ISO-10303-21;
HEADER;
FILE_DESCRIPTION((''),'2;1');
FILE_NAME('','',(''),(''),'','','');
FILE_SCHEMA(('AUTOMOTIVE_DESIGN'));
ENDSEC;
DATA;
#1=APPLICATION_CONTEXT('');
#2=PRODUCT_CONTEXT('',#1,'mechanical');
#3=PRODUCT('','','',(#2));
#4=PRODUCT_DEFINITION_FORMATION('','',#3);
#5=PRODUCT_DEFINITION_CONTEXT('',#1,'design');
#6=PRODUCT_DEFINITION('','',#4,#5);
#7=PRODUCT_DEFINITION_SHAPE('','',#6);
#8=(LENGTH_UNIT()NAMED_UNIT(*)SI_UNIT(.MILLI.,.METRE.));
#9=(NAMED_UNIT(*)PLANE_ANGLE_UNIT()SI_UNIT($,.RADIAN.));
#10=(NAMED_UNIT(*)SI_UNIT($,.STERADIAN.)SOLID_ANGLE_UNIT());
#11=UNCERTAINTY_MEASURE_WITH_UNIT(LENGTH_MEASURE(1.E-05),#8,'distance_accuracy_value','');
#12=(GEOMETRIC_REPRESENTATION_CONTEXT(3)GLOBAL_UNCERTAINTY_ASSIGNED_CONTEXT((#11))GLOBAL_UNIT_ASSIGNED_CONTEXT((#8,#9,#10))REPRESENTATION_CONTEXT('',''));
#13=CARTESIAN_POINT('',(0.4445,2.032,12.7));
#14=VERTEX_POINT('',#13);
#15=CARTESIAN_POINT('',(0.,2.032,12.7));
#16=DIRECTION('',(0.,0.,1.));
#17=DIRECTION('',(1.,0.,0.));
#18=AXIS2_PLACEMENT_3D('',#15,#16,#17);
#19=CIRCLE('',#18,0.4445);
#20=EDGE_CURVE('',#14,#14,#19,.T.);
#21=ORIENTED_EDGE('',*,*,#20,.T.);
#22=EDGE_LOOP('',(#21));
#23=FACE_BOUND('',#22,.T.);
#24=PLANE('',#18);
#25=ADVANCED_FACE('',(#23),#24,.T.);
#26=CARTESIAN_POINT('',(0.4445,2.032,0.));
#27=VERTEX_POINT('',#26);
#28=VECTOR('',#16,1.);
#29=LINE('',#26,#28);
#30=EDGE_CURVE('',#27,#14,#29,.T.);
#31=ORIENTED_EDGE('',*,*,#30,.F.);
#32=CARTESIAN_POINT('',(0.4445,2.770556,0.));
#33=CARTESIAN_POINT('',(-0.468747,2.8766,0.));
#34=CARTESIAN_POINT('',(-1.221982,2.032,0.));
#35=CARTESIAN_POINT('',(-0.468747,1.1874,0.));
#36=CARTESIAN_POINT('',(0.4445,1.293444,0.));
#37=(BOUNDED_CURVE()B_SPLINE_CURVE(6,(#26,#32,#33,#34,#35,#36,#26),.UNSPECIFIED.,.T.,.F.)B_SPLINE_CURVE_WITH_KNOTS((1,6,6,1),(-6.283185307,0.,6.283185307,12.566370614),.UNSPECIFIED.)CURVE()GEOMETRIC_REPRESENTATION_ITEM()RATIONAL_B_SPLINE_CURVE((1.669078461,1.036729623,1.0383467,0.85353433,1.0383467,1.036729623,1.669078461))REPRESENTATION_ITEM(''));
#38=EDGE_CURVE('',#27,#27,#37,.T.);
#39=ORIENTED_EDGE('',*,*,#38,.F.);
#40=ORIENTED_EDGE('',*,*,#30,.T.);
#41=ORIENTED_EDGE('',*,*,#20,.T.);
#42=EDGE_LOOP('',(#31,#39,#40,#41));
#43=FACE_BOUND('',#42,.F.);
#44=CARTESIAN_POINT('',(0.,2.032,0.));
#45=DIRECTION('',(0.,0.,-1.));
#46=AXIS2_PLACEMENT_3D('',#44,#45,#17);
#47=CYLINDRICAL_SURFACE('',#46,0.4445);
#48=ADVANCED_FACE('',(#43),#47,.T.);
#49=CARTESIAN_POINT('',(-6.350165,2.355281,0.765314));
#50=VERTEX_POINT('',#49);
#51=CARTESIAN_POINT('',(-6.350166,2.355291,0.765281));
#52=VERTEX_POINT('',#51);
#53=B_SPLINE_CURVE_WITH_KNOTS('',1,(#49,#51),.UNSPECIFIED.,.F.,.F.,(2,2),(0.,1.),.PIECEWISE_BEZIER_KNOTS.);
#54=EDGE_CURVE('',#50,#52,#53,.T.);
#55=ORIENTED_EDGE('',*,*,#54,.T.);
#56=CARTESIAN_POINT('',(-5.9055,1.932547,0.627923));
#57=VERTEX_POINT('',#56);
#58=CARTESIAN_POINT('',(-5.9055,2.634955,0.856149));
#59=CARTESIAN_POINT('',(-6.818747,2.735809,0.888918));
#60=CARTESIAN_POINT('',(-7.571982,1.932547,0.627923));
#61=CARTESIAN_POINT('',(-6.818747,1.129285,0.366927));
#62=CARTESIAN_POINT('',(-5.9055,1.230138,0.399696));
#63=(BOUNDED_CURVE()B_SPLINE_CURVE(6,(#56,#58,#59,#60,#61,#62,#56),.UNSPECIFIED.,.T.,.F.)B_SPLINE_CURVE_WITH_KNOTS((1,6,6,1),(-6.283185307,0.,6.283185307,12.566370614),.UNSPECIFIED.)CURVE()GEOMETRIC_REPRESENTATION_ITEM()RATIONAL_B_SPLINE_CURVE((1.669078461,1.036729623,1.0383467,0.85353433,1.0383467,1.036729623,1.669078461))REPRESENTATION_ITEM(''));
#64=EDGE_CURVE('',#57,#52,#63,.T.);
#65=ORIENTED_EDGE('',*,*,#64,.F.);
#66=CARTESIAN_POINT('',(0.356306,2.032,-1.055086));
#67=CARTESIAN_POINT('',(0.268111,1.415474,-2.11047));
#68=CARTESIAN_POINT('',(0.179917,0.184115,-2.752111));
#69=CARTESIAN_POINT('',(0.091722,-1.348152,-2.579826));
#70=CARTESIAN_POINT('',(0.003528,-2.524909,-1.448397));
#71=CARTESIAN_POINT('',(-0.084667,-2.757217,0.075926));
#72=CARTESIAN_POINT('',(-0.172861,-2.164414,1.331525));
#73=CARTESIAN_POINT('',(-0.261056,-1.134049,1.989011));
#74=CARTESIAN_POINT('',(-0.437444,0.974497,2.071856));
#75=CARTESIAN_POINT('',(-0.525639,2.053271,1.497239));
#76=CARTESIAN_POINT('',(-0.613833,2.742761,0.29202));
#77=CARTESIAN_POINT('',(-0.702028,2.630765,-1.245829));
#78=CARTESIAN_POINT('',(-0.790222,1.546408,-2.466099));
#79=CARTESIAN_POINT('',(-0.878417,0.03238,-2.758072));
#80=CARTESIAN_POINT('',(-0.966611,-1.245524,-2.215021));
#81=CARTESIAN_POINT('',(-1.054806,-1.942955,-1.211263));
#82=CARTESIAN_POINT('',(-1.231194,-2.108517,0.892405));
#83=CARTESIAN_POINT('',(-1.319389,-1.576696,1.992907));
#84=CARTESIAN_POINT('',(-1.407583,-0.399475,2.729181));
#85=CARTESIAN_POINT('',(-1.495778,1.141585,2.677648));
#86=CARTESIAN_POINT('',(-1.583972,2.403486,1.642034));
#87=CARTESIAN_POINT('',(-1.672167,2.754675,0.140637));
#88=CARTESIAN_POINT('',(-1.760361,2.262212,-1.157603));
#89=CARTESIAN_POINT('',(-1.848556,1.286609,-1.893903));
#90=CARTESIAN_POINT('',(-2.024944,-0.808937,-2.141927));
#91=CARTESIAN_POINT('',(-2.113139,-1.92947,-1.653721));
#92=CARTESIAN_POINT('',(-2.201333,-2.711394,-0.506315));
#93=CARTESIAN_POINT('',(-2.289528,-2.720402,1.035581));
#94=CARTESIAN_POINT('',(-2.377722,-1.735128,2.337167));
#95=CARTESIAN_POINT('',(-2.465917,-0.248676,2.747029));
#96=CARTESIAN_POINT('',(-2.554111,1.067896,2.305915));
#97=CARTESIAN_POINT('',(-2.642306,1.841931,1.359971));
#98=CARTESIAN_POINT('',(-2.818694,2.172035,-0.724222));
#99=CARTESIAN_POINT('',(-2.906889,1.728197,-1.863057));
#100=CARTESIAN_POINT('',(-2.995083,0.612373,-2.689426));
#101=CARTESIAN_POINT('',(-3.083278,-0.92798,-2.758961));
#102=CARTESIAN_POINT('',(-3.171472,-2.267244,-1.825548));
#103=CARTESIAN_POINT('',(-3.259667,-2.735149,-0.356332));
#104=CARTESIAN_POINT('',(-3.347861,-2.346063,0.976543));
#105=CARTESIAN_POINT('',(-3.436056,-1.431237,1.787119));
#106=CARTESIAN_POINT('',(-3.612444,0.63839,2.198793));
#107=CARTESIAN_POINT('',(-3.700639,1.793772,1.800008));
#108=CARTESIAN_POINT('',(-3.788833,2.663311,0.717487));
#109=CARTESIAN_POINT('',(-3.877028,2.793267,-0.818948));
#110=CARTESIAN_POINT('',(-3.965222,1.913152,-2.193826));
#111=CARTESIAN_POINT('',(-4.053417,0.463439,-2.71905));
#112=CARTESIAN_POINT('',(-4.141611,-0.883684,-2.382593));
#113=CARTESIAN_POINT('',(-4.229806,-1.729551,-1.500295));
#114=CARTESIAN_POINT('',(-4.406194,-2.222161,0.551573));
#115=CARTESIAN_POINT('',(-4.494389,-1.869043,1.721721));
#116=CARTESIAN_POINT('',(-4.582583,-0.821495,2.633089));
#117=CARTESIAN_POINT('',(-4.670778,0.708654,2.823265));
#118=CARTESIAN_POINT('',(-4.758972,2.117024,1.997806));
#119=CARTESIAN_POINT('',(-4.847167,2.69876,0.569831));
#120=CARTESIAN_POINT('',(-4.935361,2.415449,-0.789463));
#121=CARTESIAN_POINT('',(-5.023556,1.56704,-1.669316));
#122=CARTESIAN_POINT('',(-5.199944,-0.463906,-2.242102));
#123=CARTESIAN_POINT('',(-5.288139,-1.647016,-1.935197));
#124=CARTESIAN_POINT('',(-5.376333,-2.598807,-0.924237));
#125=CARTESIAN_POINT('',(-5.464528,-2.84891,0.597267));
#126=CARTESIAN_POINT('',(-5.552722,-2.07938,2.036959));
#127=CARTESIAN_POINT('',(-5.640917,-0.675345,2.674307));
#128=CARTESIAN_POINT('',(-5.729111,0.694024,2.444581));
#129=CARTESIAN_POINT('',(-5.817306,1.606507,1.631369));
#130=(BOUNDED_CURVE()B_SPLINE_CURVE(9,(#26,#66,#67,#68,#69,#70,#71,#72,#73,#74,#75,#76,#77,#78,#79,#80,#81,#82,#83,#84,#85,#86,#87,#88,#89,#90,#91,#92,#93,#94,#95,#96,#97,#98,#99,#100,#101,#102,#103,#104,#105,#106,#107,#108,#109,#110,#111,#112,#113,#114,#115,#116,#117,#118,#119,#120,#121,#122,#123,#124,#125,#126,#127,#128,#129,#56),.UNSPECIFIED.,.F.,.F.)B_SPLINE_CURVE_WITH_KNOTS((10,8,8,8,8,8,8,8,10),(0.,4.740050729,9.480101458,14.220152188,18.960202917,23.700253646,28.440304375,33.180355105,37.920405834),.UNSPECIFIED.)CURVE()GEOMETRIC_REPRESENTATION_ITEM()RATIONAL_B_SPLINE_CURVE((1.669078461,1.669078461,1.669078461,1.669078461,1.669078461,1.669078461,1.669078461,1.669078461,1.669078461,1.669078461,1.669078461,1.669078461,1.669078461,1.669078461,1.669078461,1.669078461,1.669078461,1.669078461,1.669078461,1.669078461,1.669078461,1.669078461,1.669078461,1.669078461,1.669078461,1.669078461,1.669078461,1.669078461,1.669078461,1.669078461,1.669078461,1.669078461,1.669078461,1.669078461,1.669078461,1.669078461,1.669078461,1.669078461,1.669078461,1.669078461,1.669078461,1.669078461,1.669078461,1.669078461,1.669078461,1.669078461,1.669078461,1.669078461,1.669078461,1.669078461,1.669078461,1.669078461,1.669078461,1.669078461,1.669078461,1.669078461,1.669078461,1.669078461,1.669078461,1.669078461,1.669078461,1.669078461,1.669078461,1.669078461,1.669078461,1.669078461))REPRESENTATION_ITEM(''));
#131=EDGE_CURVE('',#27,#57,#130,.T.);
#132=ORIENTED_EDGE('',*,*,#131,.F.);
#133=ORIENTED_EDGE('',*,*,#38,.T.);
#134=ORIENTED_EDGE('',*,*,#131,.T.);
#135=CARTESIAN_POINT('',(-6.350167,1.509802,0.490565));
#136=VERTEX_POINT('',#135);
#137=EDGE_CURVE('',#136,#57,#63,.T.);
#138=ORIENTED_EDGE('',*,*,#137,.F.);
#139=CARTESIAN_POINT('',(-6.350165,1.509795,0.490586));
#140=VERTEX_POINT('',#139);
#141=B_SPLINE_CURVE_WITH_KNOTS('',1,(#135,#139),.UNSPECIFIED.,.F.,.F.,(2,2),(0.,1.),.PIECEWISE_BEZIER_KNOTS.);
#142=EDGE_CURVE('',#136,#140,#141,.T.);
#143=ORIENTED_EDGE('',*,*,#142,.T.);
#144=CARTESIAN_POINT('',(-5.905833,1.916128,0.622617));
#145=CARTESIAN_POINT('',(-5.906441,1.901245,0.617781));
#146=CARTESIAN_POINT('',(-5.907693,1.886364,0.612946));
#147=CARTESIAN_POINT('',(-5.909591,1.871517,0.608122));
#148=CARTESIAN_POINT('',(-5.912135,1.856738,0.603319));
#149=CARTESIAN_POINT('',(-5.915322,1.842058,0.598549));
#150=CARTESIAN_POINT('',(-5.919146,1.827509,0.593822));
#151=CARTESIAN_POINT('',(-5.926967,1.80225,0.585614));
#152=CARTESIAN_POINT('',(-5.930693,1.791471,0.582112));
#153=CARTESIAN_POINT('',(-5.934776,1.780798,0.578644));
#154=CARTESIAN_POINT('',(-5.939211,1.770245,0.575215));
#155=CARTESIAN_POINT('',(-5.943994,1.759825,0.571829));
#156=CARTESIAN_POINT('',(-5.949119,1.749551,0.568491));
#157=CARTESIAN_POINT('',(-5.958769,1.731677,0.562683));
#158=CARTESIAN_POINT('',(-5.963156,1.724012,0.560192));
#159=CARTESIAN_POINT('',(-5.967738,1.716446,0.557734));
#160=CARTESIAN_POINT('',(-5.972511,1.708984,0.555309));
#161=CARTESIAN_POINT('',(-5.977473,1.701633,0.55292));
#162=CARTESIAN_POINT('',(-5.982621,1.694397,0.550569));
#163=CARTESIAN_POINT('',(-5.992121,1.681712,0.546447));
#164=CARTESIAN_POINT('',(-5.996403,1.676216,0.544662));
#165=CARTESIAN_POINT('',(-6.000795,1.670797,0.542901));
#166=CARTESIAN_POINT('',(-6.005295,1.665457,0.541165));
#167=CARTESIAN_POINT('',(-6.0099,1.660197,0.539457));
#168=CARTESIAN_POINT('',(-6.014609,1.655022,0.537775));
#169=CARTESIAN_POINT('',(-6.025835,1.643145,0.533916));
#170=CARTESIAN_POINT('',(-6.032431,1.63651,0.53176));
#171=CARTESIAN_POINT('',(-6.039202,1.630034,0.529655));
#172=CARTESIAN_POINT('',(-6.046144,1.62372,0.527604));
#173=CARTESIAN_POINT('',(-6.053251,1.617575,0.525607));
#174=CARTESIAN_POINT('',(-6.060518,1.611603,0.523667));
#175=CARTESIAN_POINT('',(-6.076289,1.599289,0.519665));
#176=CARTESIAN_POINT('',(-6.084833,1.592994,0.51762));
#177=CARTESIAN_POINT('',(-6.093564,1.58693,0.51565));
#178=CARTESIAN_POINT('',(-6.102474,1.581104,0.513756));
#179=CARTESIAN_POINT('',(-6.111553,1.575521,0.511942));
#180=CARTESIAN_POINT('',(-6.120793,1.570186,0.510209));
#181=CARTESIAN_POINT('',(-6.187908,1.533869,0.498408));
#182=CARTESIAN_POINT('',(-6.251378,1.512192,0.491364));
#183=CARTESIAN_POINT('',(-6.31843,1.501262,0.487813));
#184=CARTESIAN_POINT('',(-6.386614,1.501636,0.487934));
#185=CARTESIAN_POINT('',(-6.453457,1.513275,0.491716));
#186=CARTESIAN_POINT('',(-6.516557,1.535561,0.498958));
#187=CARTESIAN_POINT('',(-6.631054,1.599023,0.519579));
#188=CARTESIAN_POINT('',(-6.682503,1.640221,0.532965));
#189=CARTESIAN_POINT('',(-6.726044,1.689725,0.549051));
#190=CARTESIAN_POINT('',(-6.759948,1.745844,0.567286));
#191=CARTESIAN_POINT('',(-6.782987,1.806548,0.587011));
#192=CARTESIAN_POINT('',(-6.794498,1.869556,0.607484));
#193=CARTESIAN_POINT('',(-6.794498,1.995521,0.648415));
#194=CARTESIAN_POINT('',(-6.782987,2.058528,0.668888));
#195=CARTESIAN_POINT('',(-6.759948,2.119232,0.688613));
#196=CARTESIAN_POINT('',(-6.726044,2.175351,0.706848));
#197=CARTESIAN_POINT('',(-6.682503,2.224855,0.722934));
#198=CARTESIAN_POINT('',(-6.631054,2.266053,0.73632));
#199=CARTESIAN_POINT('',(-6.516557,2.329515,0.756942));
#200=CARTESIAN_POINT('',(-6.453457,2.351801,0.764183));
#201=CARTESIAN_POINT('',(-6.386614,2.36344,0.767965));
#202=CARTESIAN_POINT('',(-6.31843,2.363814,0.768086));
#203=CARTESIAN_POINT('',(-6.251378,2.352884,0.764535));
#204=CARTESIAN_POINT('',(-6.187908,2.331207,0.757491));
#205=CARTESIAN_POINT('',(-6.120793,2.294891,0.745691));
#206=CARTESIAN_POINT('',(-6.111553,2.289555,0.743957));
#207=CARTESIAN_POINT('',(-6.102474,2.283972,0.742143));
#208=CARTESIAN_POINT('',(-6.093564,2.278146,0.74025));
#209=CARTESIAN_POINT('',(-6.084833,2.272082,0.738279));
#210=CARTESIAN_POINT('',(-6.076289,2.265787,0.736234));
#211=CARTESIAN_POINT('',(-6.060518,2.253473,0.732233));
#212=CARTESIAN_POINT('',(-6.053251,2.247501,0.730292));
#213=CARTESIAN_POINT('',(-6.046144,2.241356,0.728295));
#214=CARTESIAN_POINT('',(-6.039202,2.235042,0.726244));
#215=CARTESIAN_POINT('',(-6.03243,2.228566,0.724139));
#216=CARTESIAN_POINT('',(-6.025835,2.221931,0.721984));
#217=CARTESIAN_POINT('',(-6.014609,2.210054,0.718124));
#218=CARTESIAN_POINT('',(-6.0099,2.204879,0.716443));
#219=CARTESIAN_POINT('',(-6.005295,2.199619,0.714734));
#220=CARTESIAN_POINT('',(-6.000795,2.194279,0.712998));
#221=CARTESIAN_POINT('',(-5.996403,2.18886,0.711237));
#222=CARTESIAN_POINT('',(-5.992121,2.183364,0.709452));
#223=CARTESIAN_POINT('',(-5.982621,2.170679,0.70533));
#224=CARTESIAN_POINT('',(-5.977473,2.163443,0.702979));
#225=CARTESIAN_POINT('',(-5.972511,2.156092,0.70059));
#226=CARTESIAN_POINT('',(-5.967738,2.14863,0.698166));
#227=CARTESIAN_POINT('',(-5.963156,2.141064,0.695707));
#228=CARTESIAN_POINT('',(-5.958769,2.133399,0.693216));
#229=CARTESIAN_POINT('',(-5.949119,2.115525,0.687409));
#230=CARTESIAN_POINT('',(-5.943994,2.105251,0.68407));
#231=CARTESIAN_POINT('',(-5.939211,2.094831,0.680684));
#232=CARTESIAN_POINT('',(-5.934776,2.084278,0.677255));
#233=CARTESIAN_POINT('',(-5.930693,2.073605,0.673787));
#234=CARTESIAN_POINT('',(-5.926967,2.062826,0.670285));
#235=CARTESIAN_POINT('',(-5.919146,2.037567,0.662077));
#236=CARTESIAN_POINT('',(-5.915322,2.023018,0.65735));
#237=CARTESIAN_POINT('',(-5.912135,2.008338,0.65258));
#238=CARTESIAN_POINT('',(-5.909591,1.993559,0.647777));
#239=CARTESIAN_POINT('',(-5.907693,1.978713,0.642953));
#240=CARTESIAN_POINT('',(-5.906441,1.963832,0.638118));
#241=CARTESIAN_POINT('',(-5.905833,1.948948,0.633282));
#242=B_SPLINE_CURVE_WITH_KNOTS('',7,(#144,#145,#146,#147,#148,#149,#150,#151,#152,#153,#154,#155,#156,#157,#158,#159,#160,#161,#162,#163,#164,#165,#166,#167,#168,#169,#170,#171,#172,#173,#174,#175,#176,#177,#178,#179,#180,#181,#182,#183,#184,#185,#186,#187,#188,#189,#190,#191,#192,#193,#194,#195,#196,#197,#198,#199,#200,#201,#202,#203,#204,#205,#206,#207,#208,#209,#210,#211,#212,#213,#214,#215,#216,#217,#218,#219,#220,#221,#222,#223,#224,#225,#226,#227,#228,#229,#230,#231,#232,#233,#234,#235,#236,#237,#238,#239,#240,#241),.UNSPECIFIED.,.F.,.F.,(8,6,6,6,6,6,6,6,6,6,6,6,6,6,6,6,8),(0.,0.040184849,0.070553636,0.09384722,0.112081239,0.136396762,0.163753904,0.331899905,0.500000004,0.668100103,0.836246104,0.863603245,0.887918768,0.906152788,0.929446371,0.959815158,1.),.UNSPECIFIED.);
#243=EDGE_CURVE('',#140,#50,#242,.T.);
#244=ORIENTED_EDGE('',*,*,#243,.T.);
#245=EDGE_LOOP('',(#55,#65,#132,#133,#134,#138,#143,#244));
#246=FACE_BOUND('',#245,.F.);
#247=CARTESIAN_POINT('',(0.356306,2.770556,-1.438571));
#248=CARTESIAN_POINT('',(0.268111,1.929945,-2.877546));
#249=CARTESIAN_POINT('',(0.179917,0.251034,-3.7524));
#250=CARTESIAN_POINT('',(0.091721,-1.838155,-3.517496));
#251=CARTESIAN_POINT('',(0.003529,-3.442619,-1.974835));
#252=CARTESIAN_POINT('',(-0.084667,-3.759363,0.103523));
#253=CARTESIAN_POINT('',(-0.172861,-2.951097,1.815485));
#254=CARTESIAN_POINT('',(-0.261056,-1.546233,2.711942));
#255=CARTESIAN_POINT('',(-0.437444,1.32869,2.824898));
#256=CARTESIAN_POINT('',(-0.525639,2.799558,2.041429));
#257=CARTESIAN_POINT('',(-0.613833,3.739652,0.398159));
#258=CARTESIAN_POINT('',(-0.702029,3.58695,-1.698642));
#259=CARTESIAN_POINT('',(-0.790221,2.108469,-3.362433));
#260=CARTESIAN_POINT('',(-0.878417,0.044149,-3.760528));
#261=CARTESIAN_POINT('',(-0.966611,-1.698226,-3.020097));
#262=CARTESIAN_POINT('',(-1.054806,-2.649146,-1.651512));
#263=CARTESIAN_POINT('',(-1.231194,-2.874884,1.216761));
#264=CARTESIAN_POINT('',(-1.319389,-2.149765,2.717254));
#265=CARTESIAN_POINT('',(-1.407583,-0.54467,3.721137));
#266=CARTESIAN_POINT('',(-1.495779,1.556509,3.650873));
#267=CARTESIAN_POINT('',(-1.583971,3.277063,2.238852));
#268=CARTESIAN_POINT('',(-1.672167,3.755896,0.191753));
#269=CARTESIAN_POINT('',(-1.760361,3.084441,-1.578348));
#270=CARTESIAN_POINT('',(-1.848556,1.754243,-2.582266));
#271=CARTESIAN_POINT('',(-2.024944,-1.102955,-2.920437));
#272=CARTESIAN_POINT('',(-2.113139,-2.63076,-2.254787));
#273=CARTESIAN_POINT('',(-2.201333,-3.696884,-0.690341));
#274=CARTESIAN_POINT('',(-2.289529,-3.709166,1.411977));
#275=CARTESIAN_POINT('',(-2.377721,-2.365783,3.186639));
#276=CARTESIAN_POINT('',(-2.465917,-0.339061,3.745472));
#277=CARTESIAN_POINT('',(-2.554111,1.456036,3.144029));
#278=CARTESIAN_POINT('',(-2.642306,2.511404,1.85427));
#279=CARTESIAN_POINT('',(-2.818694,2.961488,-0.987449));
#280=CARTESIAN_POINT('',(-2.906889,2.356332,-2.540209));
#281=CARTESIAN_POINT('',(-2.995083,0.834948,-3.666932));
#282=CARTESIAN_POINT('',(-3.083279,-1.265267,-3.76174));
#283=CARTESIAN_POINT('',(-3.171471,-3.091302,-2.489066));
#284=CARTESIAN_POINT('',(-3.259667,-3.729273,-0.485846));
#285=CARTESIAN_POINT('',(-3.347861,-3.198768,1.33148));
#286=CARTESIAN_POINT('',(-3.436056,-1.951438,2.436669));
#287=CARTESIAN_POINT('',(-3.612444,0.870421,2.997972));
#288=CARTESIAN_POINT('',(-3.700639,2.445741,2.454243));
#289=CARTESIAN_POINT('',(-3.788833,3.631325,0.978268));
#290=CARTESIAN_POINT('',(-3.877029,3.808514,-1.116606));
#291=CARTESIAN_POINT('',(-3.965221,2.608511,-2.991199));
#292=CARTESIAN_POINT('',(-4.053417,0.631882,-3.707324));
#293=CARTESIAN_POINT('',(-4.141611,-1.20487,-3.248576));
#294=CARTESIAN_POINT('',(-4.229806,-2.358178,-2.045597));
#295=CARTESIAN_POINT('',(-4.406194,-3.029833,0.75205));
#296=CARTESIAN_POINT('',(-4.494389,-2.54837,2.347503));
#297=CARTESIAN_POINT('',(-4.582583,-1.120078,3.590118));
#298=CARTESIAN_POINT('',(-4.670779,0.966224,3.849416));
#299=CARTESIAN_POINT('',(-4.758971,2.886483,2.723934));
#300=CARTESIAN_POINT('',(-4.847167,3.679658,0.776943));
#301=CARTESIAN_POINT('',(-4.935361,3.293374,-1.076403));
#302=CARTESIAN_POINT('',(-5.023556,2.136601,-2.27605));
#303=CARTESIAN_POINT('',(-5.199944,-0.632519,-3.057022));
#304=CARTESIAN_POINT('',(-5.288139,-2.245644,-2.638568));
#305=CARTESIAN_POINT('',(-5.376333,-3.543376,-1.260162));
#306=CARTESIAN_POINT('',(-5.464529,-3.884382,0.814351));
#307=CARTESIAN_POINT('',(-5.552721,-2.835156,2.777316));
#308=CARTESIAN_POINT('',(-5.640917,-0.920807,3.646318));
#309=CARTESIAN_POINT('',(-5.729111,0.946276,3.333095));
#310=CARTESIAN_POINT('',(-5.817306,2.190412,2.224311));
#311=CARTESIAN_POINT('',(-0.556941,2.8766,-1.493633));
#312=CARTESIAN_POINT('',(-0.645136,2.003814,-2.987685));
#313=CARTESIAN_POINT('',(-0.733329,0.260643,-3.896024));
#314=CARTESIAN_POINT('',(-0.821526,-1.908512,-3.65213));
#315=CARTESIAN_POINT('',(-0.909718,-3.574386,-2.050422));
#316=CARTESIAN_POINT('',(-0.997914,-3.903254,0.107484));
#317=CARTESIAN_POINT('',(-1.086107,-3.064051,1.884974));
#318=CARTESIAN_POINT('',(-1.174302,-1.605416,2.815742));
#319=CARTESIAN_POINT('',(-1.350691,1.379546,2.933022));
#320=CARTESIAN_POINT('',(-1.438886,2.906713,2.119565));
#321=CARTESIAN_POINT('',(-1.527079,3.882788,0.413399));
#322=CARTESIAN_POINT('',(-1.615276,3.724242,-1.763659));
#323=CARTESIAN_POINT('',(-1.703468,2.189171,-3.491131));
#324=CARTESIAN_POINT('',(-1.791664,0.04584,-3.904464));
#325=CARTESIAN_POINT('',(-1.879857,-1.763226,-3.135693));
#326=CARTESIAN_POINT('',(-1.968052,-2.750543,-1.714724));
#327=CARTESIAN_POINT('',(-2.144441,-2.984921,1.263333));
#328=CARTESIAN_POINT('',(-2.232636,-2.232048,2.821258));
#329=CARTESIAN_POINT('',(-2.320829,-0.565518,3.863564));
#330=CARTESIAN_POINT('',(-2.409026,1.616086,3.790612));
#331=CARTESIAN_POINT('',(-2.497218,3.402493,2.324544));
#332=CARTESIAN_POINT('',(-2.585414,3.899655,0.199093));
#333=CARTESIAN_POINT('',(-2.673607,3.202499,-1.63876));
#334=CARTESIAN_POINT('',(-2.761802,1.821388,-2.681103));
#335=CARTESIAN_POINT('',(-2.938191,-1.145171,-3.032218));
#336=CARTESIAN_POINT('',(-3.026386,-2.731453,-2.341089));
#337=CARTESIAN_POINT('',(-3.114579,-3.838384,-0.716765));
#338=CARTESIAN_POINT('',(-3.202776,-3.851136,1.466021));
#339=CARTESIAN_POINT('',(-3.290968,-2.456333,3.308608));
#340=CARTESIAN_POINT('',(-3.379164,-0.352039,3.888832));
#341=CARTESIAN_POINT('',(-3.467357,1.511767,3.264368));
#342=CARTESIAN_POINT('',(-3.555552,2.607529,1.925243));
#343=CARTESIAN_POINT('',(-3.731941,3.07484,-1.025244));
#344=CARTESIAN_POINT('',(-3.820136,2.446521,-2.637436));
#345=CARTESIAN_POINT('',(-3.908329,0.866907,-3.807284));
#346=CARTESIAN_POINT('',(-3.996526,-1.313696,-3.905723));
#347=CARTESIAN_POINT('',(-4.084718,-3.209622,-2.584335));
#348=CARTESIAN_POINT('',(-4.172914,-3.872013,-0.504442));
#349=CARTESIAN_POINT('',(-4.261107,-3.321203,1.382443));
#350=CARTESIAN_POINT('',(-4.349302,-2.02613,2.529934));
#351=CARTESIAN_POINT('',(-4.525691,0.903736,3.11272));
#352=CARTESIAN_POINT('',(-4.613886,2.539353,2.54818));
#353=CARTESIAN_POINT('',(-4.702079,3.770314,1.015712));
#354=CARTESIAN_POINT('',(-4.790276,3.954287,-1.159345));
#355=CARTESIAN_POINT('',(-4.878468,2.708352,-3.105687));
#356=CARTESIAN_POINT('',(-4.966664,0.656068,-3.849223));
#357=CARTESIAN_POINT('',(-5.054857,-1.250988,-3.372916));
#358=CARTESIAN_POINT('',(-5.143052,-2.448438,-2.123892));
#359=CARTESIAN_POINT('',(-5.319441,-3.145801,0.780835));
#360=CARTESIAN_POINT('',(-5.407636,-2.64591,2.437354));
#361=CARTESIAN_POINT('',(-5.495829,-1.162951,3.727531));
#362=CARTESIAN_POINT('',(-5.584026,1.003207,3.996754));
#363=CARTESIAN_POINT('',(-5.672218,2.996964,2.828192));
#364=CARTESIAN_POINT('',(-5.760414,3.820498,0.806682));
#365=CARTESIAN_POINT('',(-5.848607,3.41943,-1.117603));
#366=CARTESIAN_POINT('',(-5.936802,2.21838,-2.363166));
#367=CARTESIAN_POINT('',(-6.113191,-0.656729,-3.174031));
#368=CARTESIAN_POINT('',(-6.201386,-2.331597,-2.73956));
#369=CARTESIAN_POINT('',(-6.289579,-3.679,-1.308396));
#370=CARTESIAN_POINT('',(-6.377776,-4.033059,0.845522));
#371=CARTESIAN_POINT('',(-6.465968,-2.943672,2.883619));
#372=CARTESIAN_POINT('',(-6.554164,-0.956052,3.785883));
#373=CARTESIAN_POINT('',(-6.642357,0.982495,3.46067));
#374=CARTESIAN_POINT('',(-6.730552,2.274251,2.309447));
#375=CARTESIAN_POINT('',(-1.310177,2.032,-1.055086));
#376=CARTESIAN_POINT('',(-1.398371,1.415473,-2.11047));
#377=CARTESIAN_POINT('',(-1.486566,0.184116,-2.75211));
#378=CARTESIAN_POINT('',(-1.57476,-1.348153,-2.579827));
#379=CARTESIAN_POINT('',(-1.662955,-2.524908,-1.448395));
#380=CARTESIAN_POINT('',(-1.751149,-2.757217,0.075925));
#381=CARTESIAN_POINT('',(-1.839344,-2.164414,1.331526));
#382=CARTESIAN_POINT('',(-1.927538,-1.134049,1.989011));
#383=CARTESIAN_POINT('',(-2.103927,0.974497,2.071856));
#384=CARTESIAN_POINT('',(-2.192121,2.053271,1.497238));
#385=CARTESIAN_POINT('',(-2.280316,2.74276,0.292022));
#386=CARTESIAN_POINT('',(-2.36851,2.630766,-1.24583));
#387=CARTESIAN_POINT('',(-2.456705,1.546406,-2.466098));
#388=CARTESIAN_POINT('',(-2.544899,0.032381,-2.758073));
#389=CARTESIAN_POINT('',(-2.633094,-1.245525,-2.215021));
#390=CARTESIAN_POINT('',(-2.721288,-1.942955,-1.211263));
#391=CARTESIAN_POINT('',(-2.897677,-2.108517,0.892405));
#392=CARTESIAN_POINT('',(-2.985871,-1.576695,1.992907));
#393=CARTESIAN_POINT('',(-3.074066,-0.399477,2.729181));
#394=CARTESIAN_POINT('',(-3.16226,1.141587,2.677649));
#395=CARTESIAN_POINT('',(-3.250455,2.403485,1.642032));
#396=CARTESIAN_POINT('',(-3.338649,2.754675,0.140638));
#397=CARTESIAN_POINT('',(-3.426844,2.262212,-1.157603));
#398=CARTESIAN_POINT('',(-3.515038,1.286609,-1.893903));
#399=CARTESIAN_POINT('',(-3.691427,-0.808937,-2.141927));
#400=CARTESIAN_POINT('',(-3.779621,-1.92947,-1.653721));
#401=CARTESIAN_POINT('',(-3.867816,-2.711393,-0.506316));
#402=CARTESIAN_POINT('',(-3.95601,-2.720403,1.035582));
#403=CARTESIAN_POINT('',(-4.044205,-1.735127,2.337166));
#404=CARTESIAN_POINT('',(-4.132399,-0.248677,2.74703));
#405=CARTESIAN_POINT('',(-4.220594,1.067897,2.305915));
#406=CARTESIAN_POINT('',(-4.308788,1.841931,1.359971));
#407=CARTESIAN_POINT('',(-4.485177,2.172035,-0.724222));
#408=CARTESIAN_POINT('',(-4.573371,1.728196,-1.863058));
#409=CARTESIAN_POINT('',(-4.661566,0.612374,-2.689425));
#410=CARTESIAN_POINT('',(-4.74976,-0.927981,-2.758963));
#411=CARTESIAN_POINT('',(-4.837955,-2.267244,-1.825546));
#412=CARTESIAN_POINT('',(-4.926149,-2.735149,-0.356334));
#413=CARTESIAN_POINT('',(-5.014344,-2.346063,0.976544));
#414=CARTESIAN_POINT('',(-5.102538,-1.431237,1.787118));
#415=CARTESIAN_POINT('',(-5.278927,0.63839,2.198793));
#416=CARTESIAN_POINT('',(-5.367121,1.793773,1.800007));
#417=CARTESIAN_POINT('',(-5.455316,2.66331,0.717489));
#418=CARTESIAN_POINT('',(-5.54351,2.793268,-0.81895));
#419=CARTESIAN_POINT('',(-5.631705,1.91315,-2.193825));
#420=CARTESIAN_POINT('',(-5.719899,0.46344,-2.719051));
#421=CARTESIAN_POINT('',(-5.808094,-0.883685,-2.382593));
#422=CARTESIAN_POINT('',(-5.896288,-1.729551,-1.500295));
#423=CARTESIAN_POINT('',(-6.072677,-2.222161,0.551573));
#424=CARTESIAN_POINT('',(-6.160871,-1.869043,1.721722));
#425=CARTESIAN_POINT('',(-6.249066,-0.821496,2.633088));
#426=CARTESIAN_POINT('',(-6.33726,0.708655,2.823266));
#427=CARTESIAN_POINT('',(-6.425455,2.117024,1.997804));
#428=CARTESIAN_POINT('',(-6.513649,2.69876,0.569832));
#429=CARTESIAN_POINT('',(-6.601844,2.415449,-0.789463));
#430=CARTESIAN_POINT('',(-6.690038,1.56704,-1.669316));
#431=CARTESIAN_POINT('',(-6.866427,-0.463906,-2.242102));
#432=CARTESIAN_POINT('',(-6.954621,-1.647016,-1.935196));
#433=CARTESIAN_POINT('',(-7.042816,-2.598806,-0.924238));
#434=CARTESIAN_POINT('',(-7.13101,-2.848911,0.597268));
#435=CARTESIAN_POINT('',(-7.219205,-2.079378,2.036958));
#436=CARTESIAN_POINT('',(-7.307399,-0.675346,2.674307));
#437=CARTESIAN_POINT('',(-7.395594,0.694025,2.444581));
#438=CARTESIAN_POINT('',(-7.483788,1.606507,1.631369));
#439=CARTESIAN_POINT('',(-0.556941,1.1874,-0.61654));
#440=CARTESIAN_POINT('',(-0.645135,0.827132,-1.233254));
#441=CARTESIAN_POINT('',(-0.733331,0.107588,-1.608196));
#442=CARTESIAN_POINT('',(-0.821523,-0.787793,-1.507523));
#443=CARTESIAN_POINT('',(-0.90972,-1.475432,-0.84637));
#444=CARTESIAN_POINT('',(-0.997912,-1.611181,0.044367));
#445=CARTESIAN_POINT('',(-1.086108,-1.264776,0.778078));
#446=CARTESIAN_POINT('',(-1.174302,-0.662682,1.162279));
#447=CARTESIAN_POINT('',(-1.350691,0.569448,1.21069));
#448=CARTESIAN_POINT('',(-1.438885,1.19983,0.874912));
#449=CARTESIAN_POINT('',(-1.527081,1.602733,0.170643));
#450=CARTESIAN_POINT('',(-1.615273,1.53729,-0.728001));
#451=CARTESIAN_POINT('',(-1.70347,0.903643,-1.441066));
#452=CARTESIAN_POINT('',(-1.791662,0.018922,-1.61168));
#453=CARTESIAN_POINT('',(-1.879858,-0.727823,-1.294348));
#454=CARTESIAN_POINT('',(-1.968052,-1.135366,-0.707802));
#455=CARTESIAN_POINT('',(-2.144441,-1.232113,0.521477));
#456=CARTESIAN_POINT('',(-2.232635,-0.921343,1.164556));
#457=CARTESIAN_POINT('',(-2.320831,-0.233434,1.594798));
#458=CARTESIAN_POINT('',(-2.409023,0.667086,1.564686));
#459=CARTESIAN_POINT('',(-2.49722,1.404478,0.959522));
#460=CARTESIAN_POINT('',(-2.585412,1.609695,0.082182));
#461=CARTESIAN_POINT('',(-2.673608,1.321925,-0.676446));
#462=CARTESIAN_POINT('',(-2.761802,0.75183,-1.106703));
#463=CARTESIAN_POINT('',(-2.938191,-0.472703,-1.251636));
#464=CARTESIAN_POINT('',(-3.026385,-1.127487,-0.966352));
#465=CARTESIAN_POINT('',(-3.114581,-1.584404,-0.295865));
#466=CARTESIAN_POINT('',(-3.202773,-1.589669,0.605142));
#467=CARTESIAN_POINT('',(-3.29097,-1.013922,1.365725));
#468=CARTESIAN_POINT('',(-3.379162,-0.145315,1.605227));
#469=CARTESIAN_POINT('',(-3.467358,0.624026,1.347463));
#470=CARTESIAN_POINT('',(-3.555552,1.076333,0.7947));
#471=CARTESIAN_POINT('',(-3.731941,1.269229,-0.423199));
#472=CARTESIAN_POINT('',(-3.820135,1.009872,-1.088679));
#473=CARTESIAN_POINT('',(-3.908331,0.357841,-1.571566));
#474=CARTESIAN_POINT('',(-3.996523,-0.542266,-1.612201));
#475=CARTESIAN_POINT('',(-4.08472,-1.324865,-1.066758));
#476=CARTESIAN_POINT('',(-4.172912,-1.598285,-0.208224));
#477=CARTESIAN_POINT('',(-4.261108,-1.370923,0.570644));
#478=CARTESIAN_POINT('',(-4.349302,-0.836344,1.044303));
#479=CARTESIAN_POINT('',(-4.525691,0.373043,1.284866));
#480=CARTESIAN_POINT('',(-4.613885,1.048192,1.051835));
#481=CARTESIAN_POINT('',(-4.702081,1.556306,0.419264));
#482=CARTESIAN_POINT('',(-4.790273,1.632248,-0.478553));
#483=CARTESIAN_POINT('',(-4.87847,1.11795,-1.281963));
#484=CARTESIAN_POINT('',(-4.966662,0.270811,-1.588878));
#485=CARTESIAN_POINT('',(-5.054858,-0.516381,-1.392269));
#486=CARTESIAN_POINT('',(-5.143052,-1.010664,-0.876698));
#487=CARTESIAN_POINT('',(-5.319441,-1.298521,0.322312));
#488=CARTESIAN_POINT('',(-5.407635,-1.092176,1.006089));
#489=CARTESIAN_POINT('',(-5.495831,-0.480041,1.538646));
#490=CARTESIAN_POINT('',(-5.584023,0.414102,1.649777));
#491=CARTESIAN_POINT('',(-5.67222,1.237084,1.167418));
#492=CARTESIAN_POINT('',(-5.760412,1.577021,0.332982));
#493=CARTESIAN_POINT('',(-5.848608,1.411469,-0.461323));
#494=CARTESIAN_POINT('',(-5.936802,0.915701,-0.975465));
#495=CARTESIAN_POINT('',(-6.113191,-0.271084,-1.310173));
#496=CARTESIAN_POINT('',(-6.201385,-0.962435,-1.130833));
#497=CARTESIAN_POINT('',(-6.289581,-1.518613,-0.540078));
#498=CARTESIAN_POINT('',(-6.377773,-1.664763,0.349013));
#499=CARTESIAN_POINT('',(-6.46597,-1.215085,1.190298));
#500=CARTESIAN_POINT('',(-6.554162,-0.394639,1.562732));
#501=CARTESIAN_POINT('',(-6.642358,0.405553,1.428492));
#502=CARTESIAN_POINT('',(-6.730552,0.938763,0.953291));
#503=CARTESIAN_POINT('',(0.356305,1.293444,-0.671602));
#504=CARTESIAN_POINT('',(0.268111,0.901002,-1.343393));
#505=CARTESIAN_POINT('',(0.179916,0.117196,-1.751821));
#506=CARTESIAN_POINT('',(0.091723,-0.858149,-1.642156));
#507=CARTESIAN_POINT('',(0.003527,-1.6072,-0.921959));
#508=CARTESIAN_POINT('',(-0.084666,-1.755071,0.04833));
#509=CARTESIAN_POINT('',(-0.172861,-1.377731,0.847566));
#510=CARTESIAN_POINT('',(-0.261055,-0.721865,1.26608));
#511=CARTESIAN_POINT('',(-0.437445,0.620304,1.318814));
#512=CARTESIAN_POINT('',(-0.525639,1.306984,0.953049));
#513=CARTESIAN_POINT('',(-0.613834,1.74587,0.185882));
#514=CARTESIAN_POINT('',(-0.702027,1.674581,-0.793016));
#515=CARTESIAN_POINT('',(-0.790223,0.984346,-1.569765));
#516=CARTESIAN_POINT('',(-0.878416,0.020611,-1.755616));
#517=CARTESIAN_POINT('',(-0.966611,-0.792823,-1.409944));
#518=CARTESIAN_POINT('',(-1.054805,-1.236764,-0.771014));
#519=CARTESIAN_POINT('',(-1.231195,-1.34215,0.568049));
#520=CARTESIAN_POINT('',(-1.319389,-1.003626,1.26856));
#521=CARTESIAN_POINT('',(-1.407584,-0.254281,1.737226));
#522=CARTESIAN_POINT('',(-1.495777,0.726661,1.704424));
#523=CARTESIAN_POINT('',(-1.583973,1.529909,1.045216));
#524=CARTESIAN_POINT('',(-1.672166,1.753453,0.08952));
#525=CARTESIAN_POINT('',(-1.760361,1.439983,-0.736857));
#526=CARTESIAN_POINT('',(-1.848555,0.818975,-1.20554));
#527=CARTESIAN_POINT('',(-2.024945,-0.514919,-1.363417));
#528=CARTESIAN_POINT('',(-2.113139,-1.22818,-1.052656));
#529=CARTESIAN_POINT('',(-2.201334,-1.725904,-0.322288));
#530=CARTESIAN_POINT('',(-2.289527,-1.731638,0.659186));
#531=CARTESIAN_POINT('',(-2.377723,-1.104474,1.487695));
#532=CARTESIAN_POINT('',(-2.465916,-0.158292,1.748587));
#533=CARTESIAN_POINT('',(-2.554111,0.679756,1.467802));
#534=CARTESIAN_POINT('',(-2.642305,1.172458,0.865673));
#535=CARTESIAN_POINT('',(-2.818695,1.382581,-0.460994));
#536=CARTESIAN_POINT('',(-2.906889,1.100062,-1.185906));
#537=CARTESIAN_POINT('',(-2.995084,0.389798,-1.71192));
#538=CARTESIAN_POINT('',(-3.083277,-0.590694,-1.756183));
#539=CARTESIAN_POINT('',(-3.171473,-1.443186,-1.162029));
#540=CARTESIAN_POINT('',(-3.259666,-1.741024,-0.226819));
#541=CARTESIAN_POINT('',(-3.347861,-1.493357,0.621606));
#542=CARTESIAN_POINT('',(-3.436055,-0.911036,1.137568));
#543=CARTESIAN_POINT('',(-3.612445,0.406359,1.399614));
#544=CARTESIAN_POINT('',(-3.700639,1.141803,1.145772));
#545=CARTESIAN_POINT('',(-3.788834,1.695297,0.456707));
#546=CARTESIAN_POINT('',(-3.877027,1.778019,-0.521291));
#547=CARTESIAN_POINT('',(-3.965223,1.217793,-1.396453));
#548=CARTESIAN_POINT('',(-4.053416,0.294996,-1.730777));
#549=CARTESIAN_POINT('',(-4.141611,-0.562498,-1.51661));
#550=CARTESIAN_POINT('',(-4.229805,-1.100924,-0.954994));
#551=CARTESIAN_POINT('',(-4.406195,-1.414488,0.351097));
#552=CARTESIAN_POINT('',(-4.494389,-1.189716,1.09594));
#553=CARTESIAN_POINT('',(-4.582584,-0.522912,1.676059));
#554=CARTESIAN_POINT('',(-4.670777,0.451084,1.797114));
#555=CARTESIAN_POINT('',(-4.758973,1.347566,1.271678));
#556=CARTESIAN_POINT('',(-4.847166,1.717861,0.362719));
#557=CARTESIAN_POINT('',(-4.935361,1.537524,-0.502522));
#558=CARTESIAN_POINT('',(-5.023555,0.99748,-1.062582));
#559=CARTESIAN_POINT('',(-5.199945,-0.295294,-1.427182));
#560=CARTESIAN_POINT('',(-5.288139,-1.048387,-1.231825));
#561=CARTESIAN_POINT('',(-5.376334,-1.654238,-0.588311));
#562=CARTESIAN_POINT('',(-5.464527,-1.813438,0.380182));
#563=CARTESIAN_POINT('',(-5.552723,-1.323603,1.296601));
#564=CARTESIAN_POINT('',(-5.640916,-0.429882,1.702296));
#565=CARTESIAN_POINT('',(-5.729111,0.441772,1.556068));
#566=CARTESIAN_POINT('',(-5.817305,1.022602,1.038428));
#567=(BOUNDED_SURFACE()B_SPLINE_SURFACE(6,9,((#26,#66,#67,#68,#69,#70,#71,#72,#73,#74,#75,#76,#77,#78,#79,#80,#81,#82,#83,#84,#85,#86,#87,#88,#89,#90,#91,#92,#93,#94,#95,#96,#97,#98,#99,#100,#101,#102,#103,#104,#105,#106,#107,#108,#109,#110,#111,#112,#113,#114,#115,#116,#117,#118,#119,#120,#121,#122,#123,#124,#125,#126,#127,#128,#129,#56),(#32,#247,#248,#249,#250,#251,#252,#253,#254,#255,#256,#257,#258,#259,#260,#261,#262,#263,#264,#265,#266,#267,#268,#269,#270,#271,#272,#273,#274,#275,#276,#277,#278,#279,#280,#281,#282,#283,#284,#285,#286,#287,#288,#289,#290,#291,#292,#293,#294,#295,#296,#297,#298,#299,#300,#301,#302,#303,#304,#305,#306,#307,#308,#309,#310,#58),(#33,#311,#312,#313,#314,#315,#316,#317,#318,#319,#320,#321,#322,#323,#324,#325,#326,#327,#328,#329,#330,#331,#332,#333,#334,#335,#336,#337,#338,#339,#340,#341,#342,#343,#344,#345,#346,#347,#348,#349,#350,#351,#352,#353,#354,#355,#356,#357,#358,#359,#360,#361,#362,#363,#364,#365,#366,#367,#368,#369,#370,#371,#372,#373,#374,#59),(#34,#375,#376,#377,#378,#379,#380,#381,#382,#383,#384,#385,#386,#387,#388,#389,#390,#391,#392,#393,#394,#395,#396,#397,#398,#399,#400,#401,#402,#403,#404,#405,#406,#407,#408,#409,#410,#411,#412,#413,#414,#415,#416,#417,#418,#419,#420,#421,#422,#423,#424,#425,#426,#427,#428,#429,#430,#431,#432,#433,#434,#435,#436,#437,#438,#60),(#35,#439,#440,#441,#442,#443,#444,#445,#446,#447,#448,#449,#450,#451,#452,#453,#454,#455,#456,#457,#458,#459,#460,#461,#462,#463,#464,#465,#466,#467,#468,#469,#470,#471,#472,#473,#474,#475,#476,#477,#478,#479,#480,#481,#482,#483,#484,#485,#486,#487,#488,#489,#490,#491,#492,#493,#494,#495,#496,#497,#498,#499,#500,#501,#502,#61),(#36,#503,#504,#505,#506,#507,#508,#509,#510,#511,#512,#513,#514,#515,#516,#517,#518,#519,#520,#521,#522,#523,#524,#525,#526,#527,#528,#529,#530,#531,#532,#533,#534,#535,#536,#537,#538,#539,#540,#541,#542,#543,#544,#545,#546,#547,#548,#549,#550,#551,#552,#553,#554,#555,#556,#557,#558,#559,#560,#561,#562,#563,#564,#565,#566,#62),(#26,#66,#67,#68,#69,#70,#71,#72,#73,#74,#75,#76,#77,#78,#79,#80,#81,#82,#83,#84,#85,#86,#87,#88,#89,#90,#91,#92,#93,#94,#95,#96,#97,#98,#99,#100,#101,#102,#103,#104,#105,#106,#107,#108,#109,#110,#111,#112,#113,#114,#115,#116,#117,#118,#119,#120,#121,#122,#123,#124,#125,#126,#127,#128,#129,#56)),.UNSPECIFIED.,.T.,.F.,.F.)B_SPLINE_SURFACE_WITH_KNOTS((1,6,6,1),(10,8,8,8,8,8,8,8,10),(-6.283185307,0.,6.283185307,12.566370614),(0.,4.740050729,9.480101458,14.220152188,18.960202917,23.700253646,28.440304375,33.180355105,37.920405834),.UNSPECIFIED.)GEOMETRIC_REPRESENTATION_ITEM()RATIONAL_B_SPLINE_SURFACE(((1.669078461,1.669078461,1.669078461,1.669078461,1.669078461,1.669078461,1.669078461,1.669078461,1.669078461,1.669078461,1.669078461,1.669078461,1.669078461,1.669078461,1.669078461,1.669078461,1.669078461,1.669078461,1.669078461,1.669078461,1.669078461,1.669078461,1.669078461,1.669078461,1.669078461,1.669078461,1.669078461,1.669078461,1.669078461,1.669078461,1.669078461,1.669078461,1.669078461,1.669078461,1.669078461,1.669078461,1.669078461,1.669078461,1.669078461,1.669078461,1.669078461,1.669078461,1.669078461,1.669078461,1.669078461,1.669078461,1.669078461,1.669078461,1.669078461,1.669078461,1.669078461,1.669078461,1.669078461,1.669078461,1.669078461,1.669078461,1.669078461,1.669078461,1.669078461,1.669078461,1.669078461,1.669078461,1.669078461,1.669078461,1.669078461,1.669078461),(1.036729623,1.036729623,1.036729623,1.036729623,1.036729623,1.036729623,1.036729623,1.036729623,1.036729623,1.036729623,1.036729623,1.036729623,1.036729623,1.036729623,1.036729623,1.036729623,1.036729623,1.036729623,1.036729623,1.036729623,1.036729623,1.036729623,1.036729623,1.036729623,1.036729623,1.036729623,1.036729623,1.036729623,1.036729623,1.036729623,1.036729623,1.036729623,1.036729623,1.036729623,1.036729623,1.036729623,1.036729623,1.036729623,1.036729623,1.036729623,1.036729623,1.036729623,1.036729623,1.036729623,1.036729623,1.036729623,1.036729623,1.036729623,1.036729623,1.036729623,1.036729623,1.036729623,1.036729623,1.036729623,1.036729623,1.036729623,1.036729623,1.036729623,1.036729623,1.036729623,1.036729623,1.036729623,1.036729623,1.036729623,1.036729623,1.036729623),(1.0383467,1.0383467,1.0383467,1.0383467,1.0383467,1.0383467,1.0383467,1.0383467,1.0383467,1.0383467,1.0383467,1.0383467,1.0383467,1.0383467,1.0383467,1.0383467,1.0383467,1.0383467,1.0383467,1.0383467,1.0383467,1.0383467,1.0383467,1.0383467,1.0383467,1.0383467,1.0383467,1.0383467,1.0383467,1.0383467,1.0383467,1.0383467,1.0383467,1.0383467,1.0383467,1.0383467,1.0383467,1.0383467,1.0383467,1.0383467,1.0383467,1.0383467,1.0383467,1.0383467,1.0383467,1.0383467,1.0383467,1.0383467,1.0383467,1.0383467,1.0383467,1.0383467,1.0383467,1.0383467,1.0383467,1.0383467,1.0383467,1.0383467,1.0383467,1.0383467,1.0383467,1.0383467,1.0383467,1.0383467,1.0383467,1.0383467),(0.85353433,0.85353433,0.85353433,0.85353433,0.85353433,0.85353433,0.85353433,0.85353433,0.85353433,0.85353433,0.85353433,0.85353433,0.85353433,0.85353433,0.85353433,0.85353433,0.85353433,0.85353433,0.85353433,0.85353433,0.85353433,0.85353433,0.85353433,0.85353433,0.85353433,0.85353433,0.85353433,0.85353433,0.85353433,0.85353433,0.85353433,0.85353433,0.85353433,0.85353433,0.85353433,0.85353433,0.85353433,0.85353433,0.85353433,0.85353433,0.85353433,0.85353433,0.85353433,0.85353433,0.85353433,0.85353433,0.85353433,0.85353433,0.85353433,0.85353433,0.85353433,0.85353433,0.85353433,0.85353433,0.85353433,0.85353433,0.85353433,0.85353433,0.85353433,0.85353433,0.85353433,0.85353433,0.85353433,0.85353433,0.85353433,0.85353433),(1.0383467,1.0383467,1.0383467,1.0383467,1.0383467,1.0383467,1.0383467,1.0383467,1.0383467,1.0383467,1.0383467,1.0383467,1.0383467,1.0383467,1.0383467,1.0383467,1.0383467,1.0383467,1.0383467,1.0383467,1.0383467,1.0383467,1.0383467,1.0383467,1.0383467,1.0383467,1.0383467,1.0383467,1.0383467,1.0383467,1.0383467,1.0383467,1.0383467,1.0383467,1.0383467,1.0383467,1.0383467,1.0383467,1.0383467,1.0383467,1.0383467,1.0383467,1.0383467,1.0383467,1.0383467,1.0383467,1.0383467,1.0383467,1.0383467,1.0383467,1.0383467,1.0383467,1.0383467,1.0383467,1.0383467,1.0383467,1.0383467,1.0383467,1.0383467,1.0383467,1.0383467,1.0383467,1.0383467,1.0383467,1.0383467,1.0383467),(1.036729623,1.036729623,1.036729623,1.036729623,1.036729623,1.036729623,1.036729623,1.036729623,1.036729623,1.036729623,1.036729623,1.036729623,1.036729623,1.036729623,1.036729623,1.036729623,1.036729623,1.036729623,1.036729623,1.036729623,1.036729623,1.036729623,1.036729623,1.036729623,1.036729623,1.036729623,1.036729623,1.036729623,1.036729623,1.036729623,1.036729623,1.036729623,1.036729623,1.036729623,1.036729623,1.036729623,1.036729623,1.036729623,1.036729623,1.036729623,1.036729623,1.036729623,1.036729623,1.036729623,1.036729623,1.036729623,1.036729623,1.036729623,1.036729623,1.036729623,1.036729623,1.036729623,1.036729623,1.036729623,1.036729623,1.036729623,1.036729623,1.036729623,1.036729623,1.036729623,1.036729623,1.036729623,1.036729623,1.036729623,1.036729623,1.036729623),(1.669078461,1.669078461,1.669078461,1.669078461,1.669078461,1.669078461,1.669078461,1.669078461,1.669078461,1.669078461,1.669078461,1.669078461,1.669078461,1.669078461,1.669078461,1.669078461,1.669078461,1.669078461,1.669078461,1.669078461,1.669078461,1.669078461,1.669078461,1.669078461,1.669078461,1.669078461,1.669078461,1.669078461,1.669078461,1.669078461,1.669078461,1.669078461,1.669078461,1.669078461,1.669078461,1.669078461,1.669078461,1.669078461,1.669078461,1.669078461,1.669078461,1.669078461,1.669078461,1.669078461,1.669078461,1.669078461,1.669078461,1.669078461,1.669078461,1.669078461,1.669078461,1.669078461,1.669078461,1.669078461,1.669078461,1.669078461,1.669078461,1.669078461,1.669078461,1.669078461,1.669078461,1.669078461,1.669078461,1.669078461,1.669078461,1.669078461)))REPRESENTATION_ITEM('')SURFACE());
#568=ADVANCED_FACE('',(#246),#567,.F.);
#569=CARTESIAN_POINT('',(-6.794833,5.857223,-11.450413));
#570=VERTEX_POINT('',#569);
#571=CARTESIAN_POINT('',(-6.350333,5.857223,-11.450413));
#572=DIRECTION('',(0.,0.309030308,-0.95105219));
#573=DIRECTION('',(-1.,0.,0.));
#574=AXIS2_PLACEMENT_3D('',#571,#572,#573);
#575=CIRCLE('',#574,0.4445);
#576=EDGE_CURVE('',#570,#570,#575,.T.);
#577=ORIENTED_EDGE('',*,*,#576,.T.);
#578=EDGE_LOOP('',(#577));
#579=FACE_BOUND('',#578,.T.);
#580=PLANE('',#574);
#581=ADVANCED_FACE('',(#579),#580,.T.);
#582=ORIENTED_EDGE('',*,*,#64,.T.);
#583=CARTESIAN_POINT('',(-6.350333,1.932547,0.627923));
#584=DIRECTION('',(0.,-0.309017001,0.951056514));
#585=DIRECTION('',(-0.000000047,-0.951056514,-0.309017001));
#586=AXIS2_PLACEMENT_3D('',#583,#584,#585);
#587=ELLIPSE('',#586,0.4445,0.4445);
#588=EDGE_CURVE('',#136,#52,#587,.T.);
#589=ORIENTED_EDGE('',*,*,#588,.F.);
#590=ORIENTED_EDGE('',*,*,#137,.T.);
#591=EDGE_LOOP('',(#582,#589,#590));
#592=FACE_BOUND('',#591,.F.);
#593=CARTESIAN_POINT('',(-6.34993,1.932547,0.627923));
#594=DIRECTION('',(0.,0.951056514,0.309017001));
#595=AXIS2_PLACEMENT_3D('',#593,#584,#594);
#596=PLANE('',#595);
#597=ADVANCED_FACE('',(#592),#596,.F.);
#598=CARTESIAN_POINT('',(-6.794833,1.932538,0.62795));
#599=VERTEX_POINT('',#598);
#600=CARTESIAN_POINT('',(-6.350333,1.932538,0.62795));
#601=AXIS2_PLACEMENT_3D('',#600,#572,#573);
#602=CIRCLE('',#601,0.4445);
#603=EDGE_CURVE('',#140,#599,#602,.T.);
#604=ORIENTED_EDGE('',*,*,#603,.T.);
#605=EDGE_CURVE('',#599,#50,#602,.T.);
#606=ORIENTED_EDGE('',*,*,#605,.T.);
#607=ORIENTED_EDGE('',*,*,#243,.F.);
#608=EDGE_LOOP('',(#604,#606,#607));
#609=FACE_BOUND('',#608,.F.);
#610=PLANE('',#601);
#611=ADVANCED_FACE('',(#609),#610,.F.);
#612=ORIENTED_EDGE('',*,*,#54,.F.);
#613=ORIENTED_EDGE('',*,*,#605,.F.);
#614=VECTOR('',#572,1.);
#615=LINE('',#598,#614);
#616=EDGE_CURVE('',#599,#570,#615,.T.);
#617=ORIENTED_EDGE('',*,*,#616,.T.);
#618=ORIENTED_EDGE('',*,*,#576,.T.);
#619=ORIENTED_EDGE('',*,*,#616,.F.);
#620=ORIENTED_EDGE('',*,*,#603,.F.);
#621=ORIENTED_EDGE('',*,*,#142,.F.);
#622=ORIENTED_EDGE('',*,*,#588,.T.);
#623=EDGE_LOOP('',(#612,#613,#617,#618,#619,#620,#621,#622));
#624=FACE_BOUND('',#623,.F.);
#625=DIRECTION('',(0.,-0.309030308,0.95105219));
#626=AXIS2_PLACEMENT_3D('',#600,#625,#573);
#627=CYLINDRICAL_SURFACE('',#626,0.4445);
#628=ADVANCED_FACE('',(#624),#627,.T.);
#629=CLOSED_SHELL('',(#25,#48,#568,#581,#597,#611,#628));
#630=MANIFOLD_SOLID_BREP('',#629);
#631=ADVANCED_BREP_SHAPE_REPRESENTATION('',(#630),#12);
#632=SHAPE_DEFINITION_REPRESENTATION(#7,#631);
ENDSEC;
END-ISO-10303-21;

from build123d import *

# Parameters (mm, degrees)
SPRING_MAIN_COIL_PITCH       = 1.067226891
SPRING_MAIN_COIL_HEIGHT      = 6.35
SPRING_MAIN_COIL_RADIUS      = 2.032
SPRING_MAIN_COIL_START_ANGLE = -90
SKETCH2_R                    = 0.4445
SKETCH3_R                    = 0.4445
FRONT_LEG_DEPTH              = 12.7
SKETCH4_R                    = 0.4445
REAR_LEG_DEPTH               = 12.7


with BuildPart() as part:
    # spring main coil: sweep along a helix
    with BuildLine() as spring_main_coil_path:
        add(Helix(SPRING_MAIN_COIL_PITCH, SPRING_MAIN_COIL_HEIGHT, SPRING_MAIN_COIL_RADIUS, center=(0, 0, 0), direction=(-1, 0, 0), mode=Mode.PRIVATE).rotate(Axis((0, 0, 0), (-1, 0, 0)), SPRING_MAIN_COIL_START_ANGLE))
    # Sketch2 → spring main coil (sweep)
    with BuildSketch(Plane.XY):
        with Locations((0, 2.032)):
            Circle(SKETCH2_R)
    sweep(path=spring_main_coil_path.line, is_frenet=True)

    # Sketch3 → front leg (add)
    with BuildSketch(Plane.XY):
        with Locations((0, 2.032)):
            Circle(SKETCH3_R)
    extrude(amount=FRONT_LEG_DEPTH)

    # Sketch4 → rear leg (add)
    with BuildSketch(Plane(origin=(0, 0, 0), x_dir=(-1, 0, 0), z_dir=(0, 0.309030308, -0.95105219))):
        with Locations((6.350332643, 2.032)):
            Circle(SKETCH4_R)
    extrude(amount=REAR_LEG_DEPTH)


solid = part.part
